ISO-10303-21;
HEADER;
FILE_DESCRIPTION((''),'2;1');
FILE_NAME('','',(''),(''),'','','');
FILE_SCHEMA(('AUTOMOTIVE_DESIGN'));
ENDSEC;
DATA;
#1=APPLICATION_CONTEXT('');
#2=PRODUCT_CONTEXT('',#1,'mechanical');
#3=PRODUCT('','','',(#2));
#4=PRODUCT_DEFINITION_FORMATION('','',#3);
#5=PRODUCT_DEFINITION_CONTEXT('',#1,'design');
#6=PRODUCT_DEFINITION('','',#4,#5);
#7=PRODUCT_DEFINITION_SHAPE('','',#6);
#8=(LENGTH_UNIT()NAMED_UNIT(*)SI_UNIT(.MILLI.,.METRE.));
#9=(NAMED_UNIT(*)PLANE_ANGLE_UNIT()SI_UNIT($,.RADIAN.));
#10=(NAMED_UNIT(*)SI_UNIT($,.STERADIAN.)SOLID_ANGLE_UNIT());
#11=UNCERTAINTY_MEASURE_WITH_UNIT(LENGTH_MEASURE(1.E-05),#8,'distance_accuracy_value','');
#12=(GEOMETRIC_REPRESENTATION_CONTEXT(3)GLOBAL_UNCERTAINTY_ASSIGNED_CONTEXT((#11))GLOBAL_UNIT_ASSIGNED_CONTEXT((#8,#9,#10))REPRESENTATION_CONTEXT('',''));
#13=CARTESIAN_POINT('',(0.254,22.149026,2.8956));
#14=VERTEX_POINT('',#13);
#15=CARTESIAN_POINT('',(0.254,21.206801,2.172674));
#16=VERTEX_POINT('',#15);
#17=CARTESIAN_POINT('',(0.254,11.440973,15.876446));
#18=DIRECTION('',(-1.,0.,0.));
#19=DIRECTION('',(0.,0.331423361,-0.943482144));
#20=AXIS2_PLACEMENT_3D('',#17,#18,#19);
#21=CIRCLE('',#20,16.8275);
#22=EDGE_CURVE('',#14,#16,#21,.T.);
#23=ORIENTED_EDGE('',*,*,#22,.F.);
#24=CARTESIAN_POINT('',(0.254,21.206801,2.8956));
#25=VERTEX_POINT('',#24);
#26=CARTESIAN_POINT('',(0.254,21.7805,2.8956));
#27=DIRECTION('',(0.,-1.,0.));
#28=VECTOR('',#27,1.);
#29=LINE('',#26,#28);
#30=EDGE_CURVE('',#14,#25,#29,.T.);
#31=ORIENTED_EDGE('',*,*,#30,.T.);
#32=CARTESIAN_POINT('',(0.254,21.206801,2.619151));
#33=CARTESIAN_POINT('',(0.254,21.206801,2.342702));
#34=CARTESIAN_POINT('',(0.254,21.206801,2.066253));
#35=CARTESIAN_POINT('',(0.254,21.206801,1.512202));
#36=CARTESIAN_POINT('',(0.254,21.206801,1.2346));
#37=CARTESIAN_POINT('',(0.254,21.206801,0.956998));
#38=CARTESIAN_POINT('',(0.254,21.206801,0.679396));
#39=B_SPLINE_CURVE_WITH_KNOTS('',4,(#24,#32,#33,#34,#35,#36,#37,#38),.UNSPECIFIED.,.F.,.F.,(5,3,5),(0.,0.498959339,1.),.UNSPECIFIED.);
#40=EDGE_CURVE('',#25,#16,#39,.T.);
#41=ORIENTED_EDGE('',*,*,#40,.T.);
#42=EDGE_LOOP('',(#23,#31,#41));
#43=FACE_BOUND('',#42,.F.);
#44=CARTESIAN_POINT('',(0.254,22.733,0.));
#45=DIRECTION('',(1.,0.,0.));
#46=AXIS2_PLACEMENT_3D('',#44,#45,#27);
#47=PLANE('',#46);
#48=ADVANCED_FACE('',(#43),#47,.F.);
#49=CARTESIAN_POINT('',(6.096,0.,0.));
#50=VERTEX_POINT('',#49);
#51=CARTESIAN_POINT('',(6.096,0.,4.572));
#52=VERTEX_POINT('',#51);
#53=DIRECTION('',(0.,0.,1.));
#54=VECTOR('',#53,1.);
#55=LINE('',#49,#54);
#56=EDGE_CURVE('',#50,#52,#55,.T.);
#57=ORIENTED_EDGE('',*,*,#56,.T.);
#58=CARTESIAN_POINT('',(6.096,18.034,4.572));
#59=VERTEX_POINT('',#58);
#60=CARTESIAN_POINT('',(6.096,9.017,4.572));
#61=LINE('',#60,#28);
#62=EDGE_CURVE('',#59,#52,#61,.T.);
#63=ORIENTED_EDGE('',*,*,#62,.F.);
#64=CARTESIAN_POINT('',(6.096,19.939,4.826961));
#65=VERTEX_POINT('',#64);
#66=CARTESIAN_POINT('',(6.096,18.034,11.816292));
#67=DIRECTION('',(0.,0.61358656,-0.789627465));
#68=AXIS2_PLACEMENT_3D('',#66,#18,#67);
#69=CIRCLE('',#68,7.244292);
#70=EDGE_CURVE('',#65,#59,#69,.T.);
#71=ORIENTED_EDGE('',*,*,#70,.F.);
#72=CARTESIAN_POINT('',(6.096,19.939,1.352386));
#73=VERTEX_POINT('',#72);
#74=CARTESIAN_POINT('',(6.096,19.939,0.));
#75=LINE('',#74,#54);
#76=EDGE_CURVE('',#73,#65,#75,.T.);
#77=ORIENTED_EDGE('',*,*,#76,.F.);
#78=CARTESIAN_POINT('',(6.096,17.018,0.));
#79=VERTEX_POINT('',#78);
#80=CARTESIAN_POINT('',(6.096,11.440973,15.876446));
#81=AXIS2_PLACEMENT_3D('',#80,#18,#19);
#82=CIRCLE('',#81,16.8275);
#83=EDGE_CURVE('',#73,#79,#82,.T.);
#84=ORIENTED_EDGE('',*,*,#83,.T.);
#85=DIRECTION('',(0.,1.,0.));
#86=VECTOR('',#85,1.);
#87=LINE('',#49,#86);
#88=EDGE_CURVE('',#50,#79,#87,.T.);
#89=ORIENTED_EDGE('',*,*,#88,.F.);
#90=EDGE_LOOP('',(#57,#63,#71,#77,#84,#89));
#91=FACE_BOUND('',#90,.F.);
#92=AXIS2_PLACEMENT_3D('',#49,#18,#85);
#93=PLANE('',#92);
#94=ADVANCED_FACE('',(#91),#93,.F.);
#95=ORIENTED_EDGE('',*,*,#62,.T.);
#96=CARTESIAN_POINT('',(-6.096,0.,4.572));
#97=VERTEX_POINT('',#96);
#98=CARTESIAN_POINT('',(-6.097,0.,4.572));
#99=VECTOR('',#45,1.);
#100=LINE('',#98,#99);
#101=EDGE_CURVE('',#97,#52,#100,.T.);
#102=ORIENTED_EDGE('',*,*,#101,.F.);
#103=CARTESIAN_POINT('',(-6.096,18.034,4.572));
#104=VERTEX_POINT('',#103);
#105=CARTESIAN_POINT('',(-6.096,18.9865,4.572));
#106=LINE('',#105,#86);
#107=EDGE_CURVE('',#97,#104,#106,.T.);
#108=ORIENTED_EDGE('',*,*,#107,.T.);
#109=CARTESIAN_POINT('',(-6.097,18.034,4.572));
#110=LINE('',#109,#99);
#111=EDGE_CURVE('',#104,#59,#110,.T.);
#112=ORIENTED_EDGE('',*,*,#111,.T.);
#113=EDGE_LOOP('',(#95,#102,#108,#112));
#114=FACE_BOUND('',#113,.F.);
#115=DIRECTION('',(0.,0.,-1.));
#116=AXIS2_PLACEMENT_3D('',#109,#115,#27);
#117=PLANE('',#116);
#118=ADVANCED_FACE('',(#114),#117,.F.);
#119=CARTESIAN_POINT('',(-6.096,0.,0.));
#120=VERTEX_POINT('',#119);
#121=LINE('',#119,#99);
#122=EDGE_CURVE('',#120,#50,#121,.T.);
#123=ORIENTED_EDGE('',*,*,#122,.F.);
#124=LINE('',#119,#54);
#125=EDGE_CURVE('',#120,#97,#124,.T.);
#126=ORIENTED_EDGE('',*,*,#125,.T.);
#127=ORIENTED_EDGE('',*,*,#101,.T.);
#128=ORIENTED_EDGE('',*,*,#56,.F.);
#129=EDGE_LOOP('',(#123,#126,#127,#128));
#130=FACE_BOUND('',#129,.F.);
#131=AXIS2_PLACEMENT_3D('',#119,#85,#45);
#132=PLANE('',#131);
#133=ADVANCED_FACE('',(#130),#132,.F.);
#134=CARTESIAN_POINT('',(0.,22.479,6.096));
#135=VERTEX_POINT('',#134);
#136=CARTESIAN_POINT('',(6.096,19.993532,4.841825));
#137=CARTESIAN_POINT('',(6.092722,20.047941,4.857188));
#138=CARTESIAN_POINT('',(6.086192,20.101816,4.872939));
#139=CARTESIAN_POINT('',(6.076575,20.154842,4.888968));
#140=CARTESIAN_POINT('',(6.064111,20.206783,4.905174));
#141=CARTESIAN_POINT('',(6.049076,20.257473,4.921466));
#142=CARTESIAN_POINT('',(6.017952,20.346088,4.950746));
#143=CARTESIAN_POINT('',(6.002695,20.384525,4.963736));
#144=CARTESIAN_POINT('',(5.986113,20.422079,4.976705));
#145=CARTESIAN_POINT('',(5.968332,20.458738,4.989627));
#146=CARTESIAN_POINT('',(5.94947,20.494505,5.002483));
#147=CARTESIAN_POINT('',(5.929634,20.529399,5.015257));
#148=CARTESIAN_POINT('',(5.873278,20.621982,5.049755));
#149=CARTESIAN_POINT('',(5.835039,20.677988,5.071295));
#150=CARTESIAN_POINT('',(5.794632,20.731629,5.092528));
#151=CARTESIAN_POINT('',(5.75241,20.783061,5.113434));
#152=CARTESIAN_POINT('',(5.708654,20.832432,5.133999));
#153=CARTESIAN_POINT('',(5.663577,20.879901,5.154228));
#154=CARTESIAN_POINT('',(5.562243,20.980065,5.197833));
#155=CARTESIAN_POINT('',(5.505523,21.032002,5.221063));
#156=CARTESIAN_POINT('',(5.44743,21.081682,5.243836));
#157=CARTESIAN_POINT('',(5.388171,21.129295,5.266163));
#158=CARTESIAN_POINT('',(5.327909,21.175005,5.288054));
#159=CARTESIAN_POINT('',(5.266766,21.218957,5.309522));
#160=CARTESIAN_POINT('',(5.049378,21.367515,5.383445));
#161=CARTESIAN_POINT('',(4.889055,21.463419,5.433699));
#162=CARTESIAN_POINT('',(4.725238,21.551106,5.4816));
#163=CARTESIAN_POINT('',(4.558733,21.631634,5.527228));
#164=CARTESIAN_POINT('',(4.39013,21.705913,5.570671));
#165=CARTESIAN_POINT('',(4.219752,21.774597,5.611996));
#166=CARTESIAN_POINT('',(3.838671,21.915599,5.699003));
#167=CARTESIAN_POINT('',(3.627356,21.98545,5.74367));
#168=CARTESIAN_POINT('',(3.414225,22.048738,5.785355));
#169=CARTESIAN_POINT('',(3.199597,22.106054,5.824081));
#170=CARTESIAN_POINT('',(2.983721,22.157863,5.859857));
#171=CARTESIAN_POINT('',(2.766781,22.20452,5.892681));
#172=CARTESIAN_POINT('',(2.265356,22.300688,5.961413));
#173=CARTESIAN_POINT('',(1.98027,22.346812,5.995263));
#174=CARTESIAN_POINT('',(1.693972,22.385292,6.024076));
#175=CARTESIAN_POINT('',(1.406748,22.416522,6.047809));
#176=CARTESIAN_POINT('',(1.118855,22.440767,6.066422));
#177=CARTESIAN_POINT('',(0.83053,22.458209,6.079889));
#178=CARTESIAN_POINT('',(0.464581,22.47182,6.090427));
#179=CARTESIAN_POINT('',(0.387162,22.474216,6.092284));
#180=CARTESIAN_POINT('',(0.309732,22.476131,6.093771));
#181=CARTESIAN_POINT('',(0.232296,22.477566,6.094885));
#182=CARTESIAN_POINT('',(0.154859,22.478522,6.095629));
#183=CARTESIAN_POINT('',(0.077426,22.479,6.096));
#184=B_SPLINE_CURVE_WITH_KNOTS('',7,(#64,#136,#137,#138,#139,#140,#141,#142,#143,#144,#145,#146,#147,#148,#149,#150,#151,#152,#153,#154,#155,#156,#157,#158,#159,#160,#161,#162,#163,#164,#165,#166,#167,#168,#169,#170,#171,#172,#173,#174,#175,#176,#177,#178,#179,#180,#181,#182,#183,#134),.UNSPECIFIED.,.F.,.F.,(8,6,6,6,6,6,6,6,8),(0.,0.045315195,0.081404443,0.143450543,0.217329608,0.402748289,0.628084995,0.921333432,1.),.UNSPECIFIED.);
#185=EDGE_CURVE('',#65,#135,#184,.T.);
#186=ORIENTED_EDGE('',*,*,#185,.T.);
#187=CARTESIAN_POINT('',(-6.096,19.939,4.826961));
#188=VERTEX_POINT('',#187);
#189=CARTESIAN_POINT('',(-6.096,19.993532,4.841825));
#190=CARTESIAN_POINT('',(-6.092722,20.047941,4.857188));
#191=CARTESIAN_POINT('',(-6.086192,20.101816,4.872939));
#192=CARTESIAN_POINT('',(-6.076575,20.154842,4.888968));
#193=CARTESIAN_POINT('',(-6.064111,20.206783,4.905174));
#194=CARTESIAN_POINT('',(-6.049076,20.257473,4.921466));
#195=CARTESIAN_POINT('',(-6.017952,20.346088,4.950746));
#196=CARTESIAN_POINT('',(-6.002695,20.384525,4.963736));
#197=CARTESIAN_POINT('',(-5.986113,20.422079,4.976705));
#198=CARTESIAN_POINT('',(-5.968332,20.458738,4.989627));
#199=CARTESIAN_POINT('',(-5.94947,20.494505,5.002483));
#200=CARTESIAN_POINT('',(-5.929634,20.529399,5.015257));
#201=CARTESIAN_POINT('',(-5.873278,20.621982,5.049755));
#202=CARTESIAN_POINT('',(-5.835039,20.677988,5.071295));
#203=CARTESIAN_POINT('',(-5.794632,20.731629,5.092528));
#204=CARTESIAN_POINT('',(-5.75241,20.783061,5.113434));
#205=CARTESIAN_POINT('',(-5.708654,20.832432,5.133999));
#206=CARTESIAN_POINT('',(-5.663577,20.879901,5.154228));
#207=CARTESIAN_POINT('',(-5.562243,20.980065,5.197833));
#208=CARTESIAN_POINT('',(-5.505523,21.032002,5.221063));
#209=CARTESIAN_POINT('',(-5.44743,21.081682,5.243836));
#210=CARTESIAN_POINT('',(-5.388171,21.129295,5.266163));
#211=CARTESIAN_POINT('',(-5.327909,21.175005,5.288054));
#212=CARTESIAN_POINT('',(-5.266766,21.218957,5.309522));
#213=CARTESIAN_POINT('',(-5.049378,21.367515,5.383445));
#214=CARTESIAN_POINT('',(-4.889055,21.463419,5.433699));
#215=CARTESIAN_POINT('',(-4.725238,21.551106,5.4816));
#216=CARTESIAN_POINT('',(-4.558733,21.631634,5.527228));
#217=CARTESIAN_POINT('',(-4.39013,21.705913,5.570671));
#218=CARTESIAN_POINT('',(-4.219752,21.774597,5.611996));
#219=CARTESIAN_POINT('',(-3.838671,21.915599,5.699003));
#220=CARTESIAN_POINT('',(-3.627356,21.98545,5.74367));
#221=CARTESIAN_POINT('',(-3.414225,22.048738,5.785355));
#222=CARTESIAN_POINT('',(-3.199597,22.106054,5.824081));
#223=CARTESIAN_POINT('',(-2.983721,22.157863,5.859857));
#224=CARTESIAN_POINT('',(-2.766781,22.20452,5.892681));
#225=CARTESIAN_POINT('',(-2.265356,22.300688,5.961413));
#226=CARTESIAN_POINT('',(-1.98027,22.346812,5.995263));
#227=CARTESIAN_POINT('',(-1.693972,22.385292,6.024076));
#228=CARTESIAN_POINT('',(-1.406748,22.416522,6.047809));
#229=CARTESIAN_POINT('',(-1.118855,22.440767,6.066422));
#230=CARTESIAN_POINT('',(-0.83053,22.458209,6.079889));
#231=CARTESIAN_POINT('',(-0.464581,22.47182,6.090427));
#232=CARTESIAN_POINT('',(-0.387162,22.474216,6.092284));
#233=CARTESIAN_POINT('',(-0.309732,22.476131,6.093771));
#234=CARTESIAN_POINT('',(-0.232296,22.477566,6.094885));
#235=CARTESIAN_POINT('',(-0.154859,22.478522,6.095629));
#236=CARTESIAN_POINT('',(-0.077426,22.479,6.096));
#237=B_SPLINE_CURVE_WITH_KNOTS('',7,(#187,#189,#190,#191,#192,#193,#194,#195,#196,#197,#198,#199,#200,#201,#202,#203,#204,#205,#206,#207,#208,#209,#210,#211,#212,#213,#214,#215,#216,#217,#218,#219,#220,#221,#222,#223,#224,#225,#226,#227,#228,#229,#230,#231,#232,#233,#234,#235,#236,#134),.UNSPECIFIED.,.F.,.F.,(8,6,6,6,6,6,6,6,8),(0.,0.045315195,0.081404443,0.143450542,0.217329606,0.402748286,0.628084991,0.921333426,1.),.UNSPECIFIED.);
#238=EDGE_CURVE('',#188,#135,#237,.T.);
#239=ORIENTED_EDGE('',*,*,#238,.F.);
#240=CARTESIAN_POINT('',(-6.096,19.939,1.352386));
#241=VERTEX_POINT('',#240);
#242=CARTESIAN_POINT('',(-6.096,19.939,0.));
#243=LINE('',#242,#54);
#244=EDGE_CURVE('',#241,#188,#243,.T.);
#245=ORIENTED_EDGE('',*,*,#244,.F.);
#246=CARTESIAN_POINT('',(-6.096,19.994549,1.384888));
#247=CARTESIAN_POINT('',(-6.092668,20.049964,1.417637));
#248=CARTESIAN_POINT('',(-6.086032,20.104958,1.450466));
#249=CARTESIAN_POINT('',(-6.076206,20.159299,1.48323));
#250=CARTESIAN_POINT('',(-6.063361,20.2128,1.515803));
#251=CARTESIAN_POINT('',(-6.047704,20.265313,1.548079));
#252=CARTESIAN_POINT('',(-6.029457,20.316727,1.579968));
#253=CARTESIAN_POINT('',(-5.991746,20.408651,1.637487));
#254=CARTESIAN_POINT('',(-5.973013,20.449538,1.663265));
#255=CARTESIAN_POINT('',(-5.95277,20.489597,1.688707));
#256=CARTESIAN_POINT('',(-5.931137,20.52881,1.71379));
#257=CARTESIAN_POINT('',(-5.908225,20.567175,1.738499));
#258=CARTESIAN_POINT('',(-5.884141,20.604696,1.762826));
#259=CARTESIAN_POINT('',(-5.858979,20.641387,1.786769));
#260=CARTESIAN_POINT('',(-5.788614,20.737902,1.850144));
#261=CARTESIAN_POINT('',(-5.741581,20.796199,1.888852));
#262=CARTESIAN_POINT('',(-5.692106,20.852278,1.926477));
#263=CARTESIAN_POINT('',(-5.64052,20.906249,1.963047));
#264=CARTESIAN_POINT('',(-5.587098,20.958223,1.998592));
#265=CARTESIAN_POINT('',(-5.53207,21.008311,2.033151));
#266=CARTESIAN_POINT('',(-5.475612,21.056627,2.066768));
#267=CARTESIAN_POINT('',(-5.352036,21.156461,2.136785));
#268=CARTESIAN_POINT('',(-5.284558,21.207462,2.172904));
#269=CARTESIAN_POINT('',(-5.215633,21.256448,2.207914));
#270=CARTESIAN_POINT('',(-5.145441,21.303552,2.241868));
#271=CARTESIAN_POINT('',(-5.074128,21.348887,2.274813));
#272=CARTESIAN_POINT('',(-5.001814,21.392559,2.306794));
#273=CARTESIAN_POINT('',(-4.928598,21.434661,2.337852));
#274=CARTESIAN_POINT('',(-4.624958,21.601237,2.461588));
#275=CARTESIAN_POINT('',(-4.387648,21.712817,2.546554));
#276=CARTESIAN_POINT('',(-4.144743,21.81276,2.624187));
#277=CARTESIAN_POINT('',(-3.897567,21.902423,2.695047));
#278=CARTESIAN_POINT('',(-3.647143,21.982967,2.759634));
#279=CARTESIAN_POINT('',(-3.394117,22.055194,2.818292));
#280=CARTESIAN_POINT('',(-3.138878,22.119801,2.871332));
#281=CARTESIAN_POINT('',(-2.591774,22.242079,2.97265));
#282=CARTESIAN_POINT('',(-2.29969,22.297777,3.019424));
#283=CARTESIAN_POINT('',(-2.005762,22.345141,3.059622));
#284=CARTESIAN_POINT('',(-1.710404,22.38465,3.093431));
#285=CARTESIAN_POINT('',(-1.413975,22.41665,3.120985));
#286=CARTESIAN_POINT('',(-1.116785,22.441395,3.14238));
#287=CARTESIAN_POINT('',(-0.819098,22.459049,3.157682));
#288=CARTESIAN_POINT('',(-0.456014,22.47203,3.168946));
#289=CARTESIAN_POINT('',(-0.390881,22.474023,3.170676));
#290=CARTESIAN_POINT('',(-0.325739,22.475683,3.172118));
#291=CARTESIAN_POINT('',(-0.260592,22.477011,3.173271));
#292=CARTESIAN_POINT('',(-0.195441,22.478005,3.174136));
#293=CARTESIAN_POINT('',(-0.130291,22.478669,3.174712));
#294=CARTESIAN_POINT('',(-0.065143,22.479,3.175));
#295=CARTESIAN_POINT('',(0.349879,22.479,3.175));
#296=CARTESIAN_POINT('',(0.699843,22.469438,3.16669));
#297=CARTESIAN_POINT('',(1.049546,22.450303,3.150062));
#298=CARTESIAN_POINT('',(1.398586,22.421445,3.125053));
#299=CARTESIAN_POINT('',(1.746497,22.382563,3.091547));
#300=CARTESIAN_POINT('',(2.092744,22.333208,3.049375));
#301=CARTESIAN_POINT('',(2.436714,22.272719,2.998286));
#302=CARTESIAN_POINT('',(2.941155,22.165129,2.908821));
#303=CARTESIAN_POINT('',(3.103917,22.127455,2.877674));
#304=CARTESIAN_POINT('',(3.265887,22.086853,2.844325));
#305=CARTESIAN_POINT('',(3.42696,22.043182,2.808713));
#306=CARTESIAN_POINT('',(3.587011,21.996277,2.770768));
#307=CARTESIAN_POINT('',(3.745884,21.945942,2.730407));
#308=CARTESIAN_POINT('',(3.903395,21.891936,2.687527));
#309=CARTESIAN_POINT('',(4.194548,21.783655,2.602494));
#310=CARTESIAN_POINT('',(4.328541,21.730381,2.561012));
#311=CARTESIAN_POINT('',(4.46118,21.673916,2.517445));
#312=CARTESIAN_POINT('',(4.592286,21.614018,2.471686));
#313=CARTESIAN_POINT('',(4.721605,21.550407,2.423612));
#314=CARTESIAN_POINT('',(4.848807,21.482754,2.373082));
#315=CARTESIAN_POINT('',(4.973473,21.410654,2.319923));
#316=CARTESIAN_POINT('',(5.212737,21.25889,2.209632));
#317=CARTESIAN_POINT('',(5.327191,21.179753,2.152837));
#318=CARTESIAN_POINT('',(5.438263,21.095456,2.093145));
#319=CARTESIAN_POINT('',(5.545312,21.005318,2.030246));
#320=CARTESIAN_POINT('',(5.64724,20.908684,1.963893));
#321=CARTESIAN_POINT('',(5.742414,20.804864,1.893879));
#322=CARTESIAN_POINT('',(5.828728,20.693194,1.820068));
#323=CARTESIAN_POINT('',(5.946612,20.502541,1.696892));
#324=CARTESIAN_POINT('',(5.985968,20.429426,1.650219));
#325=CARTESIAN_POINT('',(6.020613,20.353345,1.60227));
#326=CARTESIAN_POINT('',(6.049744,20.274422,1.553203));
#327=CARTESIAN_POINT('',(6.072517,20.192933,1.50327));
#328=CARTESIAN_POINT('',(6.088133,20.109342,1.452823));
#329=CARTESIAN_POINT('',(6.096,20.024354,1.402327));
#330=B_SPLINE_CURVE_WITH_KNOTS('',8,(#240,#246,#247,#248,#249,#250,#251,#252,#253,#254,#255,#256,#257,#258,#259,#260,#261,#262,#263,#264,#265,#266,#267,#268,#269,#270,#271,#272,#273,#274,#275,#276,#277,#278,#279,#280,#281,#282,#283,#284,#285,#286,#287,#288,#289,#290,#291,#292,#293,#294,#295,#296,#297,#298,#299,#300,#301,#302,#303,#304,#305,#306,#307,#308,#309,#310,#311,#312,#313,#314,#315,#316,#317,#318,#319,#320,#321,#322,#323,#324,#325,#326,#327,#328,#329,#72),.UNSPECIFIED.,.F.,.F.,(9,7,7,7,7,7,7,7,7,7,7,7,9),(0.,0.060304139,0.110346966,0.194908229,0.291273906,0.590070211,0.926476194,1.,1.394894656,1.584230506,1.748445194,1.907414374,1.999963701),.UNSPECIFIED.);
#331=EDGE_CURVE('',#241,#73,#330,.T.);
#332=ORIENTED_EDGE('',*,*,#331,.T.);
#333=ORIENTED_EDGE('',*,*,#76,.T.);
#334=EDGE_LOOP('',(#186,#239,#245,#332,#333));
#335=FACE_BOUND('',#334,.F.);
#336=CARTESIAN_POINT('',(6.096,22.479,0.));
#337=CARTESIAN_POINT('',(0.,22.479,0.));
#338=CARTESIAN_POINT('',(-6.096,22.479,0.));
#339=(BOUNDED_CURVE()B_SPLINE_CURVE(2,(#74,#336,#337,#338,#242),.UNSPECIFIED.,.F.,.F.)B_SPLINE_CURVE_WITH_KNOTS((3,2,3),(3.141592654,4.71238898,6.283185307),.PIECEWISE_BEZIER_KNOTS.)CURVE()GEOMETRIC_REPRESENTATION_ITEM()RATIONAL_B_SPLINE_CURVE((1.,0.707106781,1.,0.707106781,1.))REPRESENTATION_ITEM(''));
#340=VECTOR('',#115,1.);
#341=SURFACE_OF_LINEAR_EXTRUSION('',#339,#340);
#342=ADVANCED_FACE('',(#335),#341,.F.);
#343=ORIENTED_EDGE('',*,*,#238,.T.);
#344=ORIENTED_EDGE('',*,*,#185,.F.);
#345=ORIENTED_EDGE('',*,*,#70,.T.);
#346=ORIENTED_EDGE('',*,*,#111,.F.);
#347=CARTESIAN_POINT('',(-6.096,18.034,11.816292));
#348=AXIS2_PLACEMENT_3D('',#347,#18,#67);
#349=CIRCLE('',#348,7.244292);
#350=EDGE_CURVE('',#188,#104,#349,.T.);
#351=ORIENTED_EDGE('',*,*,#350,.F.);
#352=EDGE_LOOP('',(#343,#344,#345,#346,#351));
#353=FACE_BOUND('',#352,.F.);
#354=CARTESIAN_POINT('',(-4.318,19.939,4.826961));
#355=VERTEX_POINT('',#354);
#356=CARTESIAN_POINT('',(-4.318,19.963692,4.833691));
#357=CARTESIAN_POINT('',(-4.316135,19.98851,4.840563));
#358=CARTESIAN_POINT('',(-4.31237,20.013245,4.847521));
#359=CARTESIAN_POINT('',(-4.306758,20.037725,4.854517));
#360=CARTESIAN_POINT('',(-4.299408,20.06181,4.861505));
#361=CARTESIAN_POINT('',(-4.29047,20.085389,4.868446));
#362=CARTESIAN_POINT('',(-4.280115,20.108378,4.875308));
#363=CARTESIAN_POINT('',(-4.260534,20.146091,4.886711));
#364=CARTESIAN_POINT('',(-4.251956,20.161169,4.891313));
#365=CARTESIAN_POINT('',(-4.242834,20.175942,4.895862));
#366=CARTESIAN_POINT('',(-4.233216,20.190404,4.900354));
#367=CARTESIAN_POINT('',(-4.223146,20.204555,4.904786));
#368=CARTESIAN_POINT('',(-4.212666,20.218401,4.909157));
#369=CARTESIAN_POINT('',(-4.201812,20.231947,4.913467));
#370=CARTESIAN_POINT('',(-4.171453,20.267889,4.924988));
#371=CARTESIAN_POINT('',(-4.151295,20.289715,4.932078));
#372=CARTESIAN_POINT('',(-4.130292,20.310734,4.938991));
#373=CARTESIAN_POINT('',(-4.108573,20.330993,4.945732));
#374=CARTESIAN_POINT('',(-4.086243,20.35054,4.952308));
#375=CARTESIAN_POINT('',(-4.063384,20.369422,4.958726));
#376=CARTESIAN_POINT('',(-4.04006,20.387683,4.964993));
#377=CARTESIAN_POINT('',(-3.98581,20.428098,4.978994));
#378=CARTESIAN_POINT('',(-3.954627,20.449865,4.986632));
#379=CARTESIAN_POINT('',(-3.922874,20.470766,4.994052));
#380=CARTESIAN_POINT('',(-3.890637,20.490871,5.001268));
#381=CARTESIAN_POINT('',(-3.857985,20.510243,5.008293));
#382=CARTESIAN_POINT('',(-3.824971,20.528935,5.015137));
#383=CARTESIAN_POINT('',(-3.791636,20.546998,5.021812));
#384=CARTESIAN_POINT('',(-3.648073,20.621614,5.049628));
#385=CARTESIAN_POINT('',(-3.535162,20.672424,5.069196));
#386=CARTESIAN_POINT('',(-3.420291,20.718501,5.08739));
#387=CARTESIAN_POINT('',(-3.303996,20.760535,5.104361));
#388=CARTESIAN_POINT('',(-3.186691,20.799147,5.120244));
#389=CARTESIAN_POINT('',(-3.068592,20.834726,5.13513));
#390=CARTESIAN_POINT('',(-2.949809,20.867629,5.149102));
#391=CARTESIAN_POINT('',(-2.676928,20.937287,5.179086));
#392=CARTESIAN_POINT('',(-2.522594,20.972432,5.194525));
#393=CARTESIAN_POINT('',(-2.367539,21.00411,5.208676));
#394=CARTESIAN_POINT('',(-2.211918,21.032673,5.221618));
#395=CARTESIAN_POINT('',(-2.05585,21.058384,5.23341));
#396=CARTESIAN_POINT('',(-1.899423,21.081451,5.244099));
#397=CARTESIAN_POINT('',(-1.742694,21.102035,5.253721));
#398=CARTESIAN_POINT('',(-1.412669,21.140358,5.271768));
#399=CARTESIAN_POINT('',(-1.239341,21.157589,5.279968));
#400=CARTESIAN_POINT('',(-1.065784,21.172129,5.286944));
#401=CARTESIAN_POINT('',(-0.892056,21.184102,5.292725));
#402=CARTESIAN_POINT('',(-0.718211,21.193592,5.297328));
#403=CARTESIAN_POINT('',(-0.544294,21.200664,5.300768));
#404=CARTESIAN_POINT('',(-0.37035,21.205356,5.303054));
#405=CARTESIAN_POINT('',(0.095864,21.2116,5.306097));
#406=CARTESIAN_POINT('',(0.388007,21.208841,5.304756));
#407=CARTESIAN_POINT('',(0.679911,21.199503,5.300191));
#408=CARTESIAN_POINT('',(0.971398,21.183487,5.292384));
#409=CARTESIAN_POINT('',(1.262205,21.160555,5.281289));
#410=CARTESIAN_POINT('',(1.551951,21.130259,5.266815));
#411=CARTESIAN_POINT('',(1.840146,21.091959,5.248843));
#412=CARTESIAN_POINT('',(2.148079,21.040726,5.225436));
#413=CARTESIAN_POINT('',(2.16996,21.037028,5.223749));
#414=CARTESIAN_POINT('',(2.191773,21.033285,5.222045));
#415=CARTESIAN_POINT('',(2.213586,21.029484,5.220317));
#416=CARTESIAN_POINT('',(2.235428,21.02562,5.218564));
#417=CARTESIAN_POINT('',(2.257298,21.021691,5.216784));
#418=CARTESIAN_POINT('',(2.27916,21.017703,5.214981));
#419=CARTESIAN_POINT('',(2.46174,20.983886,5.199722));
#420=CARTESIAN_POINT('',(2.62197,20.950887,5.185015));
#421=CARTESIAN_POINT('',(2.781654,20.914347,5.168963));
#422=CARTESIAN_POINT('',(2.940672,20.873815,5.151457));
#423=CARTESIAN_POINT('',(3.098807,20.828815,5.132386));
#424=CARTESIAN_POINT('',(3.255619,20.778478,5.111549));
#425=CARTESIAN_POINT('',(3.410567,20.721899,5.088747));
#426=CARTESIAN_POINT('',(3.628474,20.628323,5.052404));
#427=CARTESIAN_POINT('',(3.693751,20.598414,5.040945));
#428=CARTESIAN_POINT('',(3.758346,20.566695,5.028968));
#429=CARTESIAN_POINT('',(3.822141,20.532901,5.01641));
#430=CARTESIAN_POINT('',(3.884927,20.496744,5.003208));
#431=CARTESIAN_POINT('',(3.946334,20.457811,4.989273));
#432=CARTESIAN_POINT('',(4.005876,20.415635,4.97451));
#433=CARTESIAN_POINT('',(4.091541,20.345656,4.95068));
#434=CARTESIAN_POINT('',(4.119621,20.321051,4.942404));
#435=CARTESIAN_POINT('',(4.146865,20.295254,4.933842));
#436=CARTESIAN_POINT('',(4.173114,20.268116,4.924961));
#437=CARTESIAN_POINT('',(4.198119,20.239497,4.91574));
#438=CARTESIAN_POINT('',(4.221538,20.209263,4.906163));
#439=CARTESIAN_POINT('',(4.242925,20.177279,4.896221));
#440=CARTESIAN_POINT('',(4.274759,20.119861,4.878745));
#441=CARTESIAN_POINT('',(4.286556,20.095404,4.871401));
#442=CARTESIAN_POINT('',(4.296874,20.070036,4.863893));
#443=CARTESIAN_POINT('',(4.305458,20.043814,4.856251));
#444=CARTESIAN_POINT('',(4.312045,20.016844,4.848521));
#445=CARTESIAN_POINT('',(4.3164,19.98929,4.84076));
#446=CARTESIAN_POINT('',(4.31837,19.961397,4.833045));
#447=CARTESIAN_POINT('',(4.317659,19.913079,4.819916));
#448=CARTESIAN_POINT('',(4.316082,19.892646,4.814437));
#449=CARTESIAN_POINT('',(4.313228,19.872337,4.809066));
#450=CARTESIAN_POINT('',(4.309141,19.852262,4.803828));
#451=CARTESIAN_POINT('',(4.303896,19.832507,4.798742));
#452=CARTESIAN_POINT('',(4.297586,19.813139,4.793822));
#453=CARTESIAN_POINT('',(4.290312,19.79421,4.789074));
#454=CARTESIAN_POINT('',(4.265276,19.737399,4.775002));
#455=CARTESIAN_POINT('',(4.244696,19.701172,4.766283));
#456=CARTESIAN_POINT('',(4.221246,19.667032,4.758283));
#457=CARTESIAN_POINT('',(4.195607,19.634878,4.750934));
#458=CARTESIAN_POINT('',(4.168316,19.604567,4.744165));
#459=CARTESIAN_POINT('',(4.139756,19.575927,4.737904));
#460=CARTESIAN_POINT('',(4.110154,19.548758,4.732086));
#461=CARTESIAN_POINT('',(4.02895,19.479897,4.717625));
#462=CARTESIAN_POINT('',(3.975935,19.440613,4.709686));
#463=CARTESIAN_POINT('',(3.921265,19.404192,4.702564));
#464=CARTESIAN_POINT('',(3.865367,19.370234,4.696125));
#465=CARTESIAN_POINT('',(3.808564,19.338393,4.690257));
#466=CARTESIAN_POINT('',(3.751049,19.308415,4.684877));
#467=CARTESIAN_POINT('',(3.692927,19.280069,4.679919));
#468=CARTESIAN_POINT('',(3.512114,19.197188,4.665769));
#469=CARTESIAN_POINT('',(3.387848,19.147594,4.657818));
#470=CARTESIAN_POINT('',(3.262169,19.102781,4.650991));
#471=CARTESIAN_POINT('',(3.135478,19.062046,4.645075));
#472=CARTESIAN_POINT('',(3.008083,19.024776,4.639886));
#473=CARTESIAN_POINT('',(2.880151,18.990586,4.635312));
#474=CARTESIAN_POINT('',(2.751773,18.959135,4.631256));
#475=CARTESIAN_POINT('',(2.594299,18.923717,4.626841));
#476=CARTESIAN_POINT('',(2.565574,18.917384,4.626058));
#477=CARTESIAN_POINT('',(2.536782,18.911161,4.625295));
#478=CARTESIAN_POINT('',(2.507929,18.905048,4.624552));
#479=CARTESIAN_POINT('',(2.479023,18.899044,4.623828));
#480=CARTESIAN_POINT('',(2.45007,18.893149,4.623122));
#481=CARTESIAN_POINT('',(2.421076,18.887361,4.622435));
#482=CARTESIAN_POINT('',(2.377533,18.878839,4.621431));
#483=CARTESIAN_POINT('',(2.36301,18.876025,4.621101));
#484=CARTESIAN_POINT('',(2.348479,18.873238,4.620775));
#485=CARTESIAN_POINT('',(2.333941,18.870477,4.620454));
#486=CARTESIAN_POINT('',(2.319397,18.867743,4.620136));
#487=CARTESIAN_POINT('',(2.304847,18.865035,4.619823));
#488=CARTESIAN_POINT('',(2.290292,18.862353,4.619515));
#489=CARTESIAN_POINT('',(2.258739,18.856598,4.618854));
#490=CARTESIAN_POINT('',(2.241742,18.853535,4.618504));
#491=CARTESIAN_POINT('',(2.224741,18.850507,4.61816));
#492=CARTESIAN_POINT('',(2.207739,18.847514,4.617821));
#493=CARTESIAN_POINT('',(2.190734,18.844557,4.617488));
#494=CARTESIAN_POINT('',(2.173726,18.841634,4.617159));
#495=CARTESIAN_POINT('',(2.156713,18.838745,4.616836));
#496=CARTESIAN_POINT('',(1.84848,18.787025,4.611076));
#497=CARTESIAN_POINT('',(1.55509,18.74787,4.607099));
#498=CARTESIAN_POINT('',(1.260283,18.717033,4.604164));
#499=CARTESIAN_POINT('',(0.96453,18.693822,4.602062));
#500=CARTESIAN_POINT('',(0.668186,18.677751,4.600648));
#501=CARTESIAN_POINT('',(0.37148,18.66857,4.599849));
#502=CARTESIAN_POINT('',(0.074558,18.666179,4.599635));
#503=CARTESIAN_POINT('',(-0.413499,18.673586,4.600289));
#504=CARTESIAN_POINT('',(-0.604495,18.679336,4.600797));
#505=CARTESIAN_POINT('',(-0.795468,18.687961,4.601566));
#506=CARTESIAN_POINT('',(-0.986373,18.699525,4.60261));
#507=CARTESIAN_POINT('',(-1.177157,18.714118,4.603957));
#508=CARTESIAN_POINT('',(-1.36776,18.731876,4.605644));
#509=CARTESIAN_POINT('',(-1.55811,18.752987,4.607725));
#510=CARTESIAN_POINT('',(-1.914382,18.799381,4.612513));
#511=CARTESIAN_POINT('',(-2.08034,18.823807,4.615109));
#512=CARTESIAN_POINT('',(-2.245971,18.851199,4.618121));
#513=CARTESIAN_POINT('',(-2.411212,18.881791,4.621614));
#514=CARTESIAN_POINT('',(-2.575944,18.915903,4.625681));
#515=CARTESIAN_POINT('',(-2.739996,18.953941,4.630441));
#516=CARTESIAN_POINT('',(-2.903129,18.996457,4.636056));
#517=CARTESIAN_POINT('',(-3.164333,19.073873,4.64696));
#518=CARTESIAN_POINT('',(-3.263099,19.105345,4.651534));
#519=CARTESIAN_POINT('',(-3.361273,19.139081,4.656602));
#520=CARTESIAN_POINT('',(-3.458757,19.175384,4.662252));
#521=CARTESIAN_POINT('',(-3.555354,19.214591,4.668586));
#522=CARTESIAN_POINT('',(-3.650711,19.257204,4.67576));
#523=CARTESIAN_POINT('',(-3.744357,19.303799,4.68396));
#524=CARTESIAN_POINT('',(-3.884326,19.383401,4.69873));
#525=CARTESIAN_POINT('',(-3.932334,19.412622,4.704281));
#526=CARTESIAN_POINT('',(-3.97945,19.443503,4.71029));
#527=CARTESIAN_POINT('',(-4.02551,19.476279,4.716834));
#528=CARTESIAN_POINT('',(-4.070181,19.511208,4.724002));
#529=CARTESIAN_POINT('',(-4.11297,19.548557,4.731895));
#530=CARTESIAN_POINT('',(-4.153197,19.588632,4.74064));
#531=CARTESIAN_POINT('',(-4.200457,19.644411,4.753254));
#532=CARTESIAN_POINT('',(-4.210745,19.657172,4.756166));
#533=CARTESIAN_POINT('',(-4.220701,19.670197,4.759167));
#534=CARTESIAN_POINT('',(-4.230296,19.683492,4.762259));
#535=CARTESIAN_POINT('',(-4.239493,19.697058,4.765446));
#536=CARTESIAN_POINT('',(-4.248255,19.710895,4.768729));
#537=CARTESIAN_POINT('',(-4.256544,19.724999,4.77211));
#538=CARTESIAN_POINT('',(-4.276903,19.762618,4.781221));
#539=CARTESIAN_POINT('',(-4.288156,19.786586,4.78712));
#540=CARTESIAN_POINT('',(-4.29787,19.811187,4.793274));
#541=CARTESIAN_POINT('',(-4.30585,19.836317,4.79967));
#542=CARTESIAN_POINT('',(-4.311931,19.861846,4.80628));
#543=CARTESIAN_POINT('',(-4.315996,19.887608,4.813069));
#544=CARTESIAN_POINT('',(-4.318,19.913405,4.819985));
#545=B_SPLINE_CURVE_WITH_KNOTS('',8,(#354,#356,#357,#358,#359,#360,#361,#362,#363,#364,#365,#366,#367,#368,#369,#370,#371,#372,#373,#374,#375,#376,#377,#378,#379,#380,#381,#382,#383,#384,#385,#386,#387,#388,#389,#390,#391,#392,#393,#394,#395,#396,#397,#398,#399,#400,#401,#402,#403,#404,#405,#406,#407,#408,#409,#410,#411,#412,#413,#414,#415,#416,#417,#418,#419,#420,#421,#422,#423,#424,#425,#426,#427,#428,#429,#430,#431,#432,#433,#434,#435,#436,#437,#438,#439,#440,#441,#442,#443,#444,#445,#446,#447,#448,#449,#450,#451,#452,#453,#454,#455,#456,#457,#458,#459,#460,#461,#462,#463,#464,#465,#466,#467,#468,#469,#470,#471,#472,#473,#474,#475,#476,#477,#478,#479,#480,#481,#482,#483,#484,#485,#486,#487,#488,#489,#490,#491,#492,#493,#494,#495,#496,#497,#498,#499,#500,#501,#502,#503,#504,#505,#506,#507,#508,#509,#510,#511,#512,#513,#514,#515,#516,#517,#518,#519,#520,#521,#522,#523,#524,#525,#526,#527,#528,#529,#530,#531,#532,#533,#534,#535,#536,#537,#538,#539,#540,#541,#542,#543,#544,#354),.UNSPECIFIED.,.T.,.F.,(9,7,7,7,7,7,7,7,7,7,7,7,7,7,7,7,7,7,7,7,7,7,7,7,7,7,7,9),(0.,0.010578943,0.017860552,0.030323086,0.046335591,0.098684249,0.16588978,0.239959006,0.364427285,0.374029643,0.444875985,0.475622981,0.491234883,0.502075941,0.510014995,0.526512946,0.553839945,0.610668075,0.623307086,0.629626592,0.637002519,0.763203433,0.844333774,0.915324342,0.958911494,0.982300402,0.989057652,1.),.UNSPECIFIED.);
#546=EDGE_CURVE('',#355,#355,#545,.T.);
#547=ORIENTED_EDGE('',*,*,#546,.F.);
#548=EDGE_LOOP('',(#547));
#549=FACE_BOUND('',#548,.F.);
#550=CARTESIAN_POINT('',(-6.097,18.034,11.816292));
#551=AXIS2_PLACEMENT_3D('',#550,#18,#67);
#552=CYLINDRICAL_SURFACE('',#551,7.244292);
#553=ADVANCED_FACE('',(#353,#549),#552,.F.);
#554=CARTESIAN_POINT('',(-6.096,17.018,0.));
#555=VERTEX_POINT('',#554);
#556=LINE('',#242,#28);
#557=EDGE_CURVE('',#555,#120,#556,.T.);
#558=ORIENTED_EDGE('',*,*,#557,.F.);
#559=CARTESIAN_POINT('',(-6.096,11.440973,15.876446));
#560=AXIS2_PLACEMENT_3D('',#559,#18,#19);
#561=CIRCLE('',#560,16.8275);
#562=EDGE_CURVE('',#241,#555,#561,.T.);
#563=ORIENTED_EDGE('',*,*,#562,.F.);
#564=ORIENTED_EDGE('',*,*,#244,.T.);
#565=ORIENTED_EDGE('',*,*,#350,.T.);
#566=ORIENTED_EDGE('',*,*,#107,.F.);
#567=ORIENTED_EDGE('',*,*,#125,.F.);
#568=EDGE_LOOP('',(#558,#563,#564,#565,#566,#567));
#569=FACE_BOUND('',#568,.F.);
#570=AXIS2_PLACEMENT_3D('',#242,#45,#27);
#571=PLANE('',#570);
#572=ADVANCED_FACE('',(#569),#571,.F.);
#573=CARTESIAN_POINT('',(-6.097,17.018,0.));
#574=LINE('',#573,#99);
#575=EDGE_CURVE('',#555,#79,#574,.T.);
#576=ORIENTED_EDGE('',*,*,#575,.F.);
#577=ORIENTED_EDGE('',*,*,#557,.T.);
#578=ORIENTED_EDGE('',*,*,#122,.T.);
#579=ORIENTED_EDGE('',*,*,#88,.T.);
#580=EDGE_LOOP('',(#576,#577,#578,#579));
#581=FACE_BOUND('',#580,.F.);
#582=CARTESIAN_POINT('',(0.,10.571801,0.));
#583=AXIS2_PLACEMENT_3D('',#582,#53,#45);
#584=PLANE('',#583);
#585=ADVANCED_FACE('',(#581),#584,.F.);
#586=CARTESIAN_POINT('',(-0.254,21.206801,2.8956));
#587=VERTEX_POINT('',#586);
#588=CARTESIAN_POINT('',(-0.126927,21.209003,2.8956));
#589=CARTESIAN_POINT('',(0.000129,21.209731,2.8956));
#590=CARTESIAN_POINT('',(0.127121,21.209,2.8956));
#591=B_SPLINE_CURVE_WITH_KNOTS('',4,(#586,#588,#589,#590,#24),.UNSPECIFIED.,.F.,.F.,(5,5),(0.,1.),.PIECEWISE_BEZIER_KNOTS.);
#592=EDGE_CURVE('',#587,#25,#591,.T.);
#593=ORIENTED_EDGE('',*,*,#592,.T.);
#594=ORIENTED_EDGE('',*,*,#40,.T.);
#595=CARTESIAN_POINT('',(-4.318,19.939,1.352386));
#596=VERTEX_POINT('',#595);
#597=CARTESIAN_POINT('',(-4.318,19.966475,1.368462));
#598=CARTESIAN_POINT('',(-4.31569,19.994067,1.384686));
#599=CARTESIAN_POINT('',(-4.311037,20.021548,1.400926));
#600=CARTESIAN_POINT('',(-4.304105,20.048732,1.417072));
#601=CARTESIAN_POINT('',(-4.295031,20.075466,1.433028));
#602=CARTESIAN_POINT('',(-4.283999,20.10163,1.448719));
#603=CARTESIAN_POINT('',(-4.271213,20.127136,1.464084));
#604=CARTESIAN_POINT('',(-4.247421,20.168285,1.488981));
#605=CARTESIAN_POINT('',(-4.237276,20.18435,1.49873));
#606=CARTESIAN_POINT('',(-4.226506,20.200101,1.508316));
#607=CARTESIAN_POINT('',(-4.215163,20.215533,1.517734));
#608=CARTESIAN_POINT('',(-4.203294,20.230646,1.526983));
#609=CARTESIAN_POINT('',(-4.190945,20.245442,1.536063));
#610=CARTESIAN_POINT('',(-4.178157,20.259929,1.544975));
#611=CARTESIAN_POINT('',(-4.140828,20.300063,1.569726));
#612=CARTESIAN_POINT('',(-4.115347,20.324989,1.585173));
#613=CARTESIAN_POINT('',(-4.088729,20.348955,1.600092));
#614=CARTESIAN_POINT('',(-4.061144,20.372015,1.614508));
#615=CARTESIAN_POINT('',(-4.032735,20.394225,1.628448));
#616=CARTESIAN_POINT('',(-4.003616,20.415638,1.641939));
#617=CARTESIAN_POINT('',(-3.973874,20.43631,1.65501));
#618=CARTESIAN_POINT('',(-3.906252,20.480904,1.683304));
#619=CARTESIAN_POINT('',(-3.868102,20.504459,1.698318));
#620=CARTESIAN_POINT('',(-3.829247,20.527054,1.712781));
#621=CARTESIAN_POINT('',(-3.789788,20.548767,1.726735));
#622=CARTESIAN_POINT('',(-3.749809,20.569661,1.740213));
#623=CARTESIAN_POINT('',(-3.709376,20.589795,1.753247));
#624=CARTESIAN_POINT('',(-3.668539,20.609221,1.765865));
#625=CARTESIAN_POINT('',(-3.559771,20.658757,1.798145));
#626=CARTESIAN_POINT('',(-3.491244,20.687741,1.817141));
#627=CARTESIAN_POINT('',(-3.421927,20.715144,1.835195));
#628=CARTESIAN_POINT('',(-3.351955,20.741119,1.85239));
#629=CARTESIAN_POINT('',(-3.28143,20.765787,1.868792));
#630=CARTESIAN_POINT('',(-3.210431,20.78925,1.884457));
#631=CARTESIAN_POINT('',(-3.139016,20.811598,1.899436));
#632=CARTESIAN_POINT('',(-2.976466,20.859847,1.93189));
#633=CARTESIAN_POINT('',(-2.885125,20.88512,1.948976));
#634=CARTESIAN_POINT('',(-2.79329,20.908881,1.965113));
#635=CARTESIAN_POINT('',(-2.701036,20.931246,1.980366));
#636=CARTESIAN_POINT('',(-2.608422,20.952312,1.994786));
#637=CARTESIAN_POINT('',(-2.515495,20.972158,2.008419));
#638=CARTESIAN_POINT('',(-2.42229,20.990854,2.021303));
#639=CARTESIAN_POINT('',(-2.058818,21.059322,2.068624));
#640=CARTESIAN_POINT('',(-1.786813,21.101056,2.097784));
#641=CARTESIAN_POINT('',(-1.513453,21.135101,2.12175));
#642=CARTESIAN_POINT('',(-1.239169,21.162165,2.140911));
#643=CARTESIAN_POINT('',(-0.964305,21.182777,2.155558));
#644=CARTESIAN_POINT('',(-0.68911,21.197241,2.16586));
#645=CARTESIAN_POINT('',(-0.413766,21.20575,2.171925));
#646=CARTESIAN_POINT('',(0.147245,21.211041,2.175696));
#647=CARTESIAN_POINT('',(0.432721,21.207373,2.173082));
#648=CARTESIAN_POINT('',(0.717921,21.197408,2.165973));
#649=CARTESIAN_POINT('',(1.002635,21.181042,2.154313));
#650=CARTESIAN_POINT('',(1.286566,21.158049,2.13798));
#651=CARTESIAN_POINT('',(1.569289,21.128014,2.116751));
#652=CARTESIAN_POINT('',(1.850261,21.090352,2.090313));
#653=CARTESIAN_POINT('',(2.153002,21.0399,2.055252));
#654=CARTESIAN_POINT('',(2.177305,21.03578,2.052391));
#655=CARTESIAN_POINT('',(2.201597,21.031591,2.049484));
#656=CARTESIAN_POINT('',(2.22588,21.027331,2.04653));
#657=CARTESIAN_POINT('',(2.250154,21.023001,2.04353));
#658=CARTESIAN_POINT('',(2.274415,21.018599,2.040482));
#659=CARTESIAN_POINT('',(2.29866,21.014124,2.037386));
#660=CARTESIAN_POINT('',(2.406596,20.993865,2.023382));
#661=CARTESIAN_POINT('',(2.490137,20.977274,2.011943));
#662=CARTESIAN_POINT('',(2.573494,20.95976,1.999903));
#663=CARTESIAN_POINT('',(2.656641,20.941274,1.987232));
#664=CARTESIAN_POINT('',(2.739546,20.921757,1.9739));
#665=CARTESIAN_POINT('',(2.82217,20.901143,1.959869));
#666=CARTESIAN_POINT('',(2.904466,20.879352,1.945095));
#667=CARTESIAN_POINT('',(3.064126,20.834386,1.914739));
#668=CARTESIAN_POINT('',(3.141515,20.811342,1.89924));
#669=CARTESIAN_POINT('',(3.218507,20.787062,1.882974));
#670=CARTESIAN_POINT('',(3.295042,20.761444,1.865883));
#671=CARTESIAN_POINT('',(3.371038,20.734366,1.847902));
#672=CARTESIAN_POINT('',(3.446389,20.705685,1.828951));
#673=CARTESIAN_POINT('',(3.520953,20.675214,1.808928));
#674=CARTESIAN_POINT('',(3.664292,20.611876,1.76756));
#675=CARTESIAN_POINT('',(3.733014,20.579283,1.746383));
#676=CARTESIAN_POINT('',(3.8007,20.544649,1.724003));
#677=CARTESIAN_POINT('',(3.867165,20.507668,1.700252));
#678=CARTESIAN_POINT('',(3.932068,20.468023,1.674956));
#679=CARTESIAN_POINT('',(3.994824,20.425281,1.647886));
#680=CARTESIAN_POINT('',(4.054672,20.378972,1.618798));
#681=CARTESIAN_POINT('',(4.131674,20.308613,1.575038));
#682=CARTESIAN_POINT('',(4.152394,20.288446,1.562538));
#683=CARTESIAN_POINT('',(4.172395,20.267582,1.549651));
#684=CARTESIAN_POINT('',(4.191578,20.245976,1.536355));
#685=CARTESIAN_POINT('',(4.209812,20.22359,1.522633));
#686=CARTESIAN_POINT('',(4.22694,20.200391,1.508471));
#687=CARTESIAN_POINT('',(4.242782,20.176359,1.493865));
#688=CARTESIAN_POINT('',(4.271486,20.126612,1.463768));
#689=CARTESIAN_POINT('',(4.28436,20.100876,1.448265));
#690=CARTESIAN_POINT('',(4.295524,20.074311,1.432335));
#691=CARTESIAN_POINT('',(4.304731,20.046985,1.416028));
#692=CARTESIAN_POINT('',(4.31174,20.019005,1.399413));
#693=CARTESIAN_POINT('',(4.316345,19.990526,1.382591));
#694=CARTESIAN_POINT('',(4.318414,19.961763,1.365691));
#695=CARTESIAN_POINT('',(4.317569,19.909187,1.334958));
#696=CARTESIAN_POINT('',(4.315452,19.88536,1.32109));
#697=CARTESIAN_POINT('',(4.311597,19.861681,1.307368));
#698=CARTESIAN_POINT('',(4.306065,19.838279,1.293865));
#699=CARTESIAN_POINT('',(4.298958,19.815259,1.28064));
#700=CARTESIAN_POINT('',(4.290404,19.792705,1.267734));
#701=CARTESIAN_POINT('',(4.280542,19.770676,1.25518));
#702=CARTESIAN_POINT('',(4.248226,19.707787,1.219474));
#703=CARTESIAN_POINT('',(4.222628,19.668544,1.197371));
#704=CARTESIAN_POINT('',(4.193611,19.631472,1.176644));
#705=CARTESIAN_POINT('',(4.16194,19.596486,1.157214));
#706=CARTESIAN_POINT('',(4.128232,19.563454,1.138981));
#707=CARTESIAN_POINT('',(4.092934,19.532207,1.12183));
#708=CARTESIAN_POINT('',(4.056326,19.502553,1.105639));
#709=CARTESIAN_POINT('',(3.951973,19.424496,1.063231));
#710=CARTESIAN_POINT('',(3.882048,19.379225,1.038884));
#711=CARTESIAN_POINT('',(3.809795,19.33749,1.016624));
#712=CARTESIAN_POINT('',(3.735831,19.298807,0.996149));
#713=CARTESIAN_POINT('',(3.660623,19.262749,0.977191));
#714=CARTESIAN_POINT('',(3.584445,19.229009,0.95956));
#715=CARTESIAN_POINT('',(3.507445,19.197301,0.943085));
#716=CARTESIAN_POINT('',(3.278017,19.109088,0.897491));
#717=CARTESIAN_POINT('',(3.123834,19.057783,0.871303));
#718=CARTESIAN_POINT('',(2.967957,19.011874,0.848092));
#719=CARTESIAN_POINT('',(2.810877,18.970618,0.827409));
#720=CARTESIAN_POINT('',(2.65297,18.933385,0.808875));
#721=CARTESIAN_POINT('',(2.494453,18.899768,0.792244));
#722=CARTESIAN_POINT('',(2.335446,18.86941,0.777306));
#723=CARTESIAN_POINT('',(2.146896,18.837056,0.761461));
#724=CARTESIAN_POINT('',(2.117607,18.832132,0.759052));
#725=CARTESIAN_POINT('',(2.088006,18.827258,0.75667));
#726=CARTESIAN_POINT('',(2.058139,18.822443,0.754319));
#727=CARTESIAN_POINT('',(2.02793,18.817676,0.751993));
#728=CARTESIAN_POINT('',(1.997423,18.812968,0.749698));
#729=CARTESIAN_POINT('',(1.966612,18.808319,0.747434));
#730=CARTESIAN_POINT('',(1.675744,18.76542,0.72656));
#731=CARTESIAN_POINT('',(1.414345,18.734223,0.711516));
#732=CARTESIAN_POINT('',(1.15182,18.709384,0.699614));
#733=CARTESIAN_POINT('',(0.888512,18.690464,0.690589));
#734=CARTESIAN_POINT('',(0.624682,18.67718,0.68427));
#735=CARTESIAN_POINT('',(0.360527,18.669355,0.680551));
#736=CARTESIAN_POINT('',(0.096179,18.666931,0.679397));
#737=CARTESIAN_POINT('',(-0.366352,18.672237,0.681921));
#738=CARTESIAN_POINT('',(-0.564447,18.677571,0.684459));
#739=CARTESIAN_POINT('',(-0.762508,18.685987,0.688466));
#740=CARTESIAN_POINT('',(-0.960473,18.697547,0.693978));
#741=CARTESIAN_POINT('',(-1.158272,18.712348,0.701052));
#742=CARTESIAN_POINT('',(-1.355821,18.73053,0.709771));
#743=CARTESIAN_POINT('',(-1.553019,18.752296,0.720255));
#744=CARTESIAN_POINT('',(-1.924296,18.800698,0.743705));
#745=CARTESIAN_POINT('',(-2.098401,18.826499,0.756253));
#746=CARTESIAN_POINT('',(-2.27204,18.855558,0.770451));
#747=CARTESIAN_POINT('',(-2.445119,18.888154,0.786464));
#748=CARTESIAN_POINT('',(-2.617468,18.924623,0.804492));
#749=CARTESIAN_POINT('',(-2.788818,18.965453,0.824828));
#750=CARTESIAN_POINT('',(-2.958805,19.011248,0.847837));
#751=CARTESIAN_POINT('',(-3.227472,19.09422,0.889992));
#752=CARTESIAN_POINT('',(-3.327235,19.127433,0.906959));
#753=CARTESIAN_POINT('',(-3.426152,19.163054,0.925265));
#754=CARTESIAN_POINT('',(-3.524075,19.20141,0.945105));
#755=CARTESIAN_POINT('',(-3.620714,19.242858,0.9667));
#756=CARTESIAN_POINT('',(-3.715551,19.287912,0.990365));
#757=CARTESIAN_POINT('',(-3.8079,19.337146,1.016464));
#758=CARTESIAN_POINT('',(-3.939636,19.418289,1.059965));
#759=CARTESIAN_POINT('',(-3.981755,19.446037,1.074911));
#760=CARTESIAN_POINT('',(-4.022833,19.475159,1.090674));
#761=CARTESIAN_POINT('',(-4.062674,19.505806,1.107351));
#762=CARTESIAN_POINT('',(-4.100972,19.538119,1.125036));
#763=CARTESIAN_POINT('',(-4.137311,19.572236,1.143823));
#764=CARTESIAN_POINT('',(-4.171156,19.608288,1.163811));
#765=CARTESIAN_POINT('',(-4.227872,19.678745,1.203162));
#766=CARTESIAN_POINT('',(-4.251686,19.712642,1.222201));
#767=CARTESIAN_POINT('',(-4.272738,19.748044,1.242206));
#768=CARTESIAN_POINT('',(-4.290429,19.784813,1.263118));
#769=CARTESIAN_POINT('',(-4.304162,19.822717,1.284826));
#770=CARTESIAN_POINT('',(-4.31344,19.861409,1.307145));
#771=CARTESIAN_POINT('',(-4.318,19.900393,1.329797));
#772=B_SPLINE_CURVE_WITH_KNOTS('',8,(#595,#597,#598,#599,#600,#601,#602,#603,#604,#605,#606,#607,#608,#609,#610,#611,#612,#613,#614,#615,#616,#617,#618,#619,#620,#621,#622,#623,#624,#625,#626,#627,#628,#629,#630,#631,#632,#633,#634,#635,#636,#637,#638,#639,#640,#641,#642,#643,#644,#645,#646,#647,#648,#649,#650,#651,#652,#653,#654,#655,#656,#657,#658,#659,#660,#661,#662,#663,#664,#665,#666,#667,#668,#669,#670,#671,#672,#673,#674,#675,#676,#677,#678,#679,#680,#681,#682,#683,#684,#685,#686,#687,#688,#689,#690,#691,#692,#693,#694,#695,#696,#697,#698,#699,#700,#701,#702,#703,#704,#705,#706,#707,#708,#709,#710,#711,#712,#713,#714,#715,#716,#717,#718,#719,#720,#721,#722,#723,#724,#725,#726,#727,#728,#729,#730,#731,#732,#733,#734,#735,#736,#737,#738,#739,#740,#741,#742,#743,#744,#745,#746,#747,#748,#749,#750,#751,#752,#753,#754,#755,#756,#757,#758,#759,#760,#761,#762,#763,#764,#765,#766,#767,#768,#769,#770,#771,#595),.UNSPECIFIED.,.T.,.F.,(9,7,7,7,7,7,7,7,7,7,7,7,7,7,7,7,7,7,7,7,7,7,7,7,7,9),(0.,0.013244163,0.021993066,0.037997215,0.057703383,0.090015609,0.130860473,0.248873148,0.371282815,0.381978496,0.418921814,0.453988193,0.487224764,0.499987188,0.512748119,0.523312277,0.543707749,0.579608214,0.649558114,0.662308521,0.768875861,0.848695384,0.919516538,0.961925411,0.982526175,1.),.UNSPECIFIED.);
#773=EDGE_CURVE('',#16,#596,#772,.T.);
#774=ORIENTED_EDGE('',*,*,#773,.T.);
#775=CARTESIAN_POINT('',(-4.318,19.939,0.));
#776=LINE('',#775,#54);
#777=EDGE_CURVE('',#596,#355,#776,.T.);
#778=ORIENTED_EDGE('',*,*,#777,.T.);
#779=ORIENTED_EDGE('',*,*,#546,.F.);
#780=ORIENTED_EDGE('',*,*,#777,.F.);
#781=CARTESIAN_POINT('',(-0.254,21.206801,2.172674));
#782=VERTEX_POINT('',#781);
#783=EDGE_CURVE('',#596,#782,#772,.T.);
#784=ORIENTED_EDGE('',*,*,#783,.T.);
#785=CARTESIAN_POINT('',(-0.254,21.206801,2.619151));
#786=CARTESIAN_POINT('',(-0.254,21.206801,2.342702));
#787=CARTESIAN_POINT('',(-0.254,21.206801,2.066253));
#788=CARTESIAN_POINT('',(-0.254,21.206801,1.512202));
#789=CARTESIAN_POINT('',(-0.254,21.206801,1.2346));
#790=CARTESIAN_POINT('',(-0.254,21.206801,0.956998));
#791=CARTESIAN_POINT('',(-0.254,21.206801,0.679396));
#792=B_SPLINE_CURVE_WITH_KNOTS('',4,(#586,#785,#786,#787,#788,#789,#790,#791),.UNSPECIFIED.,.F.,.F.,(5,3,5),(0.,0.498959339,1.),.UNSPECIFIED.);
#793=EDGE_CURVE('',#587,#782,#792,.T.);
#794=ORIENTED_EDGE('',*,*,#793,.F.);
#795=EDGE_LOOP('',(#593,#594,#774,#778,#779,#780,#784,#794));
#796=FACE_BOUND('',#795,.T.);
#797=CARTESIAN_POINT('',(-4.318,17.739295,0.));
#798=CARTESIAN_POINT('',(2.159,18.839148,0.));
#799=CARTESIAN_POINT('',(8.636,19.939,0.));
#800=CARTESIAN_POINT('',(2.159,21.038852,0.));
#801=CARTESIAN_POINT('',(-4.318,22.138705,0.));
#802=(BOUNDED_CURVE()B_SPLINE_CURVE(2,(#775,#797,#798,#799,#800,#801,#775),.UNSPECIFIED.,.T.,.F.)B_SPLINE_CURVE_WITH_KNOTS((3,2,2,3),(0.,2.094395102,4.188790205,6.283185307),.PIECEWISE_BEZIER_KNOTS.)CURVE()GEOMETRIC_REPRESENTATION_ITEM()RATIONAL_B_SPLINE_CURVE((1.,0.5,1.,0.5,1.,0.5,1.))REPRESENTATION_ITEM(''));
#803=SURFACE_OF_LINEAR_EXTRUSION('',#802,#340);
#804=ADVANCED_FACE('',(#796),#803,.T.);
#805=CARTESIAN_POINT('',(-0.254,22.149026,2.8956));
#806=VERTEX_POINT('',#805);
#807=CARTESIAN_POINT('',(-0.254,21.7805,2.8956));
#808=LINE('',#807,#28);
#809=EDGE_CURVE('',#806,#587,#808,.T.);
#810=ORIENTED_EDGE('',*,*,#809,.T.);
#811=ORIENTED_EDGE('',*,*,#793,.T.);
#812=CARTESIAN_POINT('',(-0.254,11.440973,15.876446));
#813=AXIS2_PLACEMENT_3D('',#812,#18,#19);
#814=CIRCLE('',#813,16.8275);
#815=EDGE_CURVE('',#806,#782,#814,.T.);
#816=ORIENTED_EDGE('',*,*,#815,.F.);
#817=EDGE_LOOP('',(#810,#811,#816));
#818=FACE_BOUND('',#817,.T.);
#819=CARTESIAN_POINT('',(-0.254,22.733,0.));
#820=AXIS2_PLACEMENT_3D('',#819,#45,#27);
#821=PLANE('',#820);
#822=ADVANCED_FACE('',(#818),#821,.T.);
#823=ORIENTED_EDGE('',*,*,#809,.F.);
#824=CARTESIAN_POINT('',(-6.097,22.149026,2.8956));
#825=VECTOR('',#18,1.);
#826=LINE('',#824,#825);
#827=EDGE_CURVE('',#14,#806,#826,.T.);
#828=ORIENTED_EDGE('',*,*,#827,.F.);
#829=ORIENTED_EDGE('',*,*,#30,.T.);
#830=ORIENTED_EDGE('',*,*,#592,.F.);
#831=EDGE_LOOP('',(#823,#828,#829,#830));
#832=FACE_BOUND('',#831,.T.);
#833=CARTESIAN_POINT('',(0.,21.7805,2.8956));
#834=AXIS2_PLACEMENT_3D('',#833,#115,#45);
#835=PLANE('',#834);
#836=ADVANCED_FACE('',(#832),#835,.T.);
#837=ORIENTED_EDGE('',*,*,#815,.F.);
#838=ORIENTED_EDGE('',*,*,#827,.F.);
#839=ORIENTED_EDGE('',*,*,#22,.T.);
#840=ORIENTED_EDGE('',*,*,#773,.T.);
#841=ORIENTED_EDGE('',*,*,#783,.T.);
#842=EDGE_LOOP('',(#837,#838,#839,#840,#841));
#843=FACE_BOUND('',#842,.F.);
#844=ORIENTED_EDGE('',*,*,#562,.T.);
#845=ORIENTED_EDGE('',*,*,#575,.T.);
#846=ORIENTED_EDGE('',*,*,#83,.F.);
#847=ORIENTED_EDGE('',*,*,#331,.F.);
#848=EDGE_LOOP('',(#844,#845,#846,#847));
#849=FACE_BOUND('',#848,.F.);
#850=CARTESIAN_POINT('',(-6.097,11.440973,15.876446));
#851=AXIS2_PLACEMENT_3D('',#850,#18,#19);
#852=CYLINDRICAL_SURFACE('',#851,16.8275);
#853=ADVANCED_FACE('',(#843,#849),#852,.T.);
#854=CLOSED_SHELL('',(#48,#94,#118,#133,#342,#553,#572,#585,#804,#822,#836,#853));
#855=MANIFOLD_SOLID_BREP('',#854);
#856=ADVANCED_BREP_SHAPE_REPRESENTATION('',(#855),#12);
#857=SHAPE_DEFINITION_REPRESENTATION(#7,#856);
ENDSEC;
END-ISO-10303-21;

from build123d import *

# Parameters (mm, degrees)
F1_DEPTH = 6.096
F3_START = -6.0970001
F3_DEPTH = 12.1940002
F4_W     = 0.508
F4_H     = 1.905
F5_DEPTH = 2.8956


with BuildPart() as f1:
    # F0 (on Top) → F1 (new body)
    with BuildSketch(Plane.XY):
        with BuildLine():
            Line((-6.096, 19.939), (-6.096, 0))
            Line((-6.096, 0), (6.096, 0))
            Line((6.096, 0), (6.096, 19.939))
            add(Edge.make_bspline(
                [(6.096, 19.939), (6.096, 22.479), (0, 22.479), (-6.096, 22.479), (-6.096, 19.939)],
                knots=[3.1415926536, 3.1415926536, 3.1415926536, 4.7123889804, 4.7123889804, 6.2831853072, 6.2831853072, 6.2831853072], degree=2, weights=[1, 0.7071067812, 1, 0.7071067812, 1]))
        make_face()
        with BuildLine():
            add(Edge.make_bspline(
                [(-4.318, 19.939), (-4.318, 17.7392954744), (2.159, 18.8391477372), (8.636, 19.939), (2.159, 21.0388522628), (-4.318, 22.1387045256), (-4.318, 19.939)],
                knots=[0, 0, 0, 2.0943951024, 2.0943951024, 4.1887902048, 4.1887902048, 6.2831853072, 6.2831853072, 6.2831853072], degree=2, weights=[1, 0.5, 1, 0.5, 1, 0.5, 1]))
        make_face(mode=Mode.SUBTRACT)
    extrude(amount=F1_DEPTH)

    # F2 (on Right) → F3 (intersect)
    with BuildSketch(Plane.YZ.offset(F3_START)):
        with BuildLine():
            Line((0, 4.572), (0, 0))
            Line((0, 0), (17.018, 0))
            ThreePointArc((17.018, 0), (19.8988191337, 1.32895109), (22.479, 3.175))
            Line((22.479, 3.175), (22.479, 6.096))
            ThreePointArc((22.479, 6.096), (20.3835, 4.9635833333), (18.034, 4.572))
            Line((18.034, 4.572), (0, 4.572))
        make_face()
    extrude(amount=F3_DEPTH, mode=Mode.INTERSECT)

    # F4 (on face) → F5 (cut)
    with BuildSketch(Plane(origin=(0, 0, 0), x_dir=(1, 0, 0), z_dir=(0, 0, -1))):
        with Locations((0, -21.7805)):
            Rectangle(F4_W, F4_H)
    extrude(amount=-F5_DEPTH, mode=Mode.SUBTRACT)


solid = f1.part
